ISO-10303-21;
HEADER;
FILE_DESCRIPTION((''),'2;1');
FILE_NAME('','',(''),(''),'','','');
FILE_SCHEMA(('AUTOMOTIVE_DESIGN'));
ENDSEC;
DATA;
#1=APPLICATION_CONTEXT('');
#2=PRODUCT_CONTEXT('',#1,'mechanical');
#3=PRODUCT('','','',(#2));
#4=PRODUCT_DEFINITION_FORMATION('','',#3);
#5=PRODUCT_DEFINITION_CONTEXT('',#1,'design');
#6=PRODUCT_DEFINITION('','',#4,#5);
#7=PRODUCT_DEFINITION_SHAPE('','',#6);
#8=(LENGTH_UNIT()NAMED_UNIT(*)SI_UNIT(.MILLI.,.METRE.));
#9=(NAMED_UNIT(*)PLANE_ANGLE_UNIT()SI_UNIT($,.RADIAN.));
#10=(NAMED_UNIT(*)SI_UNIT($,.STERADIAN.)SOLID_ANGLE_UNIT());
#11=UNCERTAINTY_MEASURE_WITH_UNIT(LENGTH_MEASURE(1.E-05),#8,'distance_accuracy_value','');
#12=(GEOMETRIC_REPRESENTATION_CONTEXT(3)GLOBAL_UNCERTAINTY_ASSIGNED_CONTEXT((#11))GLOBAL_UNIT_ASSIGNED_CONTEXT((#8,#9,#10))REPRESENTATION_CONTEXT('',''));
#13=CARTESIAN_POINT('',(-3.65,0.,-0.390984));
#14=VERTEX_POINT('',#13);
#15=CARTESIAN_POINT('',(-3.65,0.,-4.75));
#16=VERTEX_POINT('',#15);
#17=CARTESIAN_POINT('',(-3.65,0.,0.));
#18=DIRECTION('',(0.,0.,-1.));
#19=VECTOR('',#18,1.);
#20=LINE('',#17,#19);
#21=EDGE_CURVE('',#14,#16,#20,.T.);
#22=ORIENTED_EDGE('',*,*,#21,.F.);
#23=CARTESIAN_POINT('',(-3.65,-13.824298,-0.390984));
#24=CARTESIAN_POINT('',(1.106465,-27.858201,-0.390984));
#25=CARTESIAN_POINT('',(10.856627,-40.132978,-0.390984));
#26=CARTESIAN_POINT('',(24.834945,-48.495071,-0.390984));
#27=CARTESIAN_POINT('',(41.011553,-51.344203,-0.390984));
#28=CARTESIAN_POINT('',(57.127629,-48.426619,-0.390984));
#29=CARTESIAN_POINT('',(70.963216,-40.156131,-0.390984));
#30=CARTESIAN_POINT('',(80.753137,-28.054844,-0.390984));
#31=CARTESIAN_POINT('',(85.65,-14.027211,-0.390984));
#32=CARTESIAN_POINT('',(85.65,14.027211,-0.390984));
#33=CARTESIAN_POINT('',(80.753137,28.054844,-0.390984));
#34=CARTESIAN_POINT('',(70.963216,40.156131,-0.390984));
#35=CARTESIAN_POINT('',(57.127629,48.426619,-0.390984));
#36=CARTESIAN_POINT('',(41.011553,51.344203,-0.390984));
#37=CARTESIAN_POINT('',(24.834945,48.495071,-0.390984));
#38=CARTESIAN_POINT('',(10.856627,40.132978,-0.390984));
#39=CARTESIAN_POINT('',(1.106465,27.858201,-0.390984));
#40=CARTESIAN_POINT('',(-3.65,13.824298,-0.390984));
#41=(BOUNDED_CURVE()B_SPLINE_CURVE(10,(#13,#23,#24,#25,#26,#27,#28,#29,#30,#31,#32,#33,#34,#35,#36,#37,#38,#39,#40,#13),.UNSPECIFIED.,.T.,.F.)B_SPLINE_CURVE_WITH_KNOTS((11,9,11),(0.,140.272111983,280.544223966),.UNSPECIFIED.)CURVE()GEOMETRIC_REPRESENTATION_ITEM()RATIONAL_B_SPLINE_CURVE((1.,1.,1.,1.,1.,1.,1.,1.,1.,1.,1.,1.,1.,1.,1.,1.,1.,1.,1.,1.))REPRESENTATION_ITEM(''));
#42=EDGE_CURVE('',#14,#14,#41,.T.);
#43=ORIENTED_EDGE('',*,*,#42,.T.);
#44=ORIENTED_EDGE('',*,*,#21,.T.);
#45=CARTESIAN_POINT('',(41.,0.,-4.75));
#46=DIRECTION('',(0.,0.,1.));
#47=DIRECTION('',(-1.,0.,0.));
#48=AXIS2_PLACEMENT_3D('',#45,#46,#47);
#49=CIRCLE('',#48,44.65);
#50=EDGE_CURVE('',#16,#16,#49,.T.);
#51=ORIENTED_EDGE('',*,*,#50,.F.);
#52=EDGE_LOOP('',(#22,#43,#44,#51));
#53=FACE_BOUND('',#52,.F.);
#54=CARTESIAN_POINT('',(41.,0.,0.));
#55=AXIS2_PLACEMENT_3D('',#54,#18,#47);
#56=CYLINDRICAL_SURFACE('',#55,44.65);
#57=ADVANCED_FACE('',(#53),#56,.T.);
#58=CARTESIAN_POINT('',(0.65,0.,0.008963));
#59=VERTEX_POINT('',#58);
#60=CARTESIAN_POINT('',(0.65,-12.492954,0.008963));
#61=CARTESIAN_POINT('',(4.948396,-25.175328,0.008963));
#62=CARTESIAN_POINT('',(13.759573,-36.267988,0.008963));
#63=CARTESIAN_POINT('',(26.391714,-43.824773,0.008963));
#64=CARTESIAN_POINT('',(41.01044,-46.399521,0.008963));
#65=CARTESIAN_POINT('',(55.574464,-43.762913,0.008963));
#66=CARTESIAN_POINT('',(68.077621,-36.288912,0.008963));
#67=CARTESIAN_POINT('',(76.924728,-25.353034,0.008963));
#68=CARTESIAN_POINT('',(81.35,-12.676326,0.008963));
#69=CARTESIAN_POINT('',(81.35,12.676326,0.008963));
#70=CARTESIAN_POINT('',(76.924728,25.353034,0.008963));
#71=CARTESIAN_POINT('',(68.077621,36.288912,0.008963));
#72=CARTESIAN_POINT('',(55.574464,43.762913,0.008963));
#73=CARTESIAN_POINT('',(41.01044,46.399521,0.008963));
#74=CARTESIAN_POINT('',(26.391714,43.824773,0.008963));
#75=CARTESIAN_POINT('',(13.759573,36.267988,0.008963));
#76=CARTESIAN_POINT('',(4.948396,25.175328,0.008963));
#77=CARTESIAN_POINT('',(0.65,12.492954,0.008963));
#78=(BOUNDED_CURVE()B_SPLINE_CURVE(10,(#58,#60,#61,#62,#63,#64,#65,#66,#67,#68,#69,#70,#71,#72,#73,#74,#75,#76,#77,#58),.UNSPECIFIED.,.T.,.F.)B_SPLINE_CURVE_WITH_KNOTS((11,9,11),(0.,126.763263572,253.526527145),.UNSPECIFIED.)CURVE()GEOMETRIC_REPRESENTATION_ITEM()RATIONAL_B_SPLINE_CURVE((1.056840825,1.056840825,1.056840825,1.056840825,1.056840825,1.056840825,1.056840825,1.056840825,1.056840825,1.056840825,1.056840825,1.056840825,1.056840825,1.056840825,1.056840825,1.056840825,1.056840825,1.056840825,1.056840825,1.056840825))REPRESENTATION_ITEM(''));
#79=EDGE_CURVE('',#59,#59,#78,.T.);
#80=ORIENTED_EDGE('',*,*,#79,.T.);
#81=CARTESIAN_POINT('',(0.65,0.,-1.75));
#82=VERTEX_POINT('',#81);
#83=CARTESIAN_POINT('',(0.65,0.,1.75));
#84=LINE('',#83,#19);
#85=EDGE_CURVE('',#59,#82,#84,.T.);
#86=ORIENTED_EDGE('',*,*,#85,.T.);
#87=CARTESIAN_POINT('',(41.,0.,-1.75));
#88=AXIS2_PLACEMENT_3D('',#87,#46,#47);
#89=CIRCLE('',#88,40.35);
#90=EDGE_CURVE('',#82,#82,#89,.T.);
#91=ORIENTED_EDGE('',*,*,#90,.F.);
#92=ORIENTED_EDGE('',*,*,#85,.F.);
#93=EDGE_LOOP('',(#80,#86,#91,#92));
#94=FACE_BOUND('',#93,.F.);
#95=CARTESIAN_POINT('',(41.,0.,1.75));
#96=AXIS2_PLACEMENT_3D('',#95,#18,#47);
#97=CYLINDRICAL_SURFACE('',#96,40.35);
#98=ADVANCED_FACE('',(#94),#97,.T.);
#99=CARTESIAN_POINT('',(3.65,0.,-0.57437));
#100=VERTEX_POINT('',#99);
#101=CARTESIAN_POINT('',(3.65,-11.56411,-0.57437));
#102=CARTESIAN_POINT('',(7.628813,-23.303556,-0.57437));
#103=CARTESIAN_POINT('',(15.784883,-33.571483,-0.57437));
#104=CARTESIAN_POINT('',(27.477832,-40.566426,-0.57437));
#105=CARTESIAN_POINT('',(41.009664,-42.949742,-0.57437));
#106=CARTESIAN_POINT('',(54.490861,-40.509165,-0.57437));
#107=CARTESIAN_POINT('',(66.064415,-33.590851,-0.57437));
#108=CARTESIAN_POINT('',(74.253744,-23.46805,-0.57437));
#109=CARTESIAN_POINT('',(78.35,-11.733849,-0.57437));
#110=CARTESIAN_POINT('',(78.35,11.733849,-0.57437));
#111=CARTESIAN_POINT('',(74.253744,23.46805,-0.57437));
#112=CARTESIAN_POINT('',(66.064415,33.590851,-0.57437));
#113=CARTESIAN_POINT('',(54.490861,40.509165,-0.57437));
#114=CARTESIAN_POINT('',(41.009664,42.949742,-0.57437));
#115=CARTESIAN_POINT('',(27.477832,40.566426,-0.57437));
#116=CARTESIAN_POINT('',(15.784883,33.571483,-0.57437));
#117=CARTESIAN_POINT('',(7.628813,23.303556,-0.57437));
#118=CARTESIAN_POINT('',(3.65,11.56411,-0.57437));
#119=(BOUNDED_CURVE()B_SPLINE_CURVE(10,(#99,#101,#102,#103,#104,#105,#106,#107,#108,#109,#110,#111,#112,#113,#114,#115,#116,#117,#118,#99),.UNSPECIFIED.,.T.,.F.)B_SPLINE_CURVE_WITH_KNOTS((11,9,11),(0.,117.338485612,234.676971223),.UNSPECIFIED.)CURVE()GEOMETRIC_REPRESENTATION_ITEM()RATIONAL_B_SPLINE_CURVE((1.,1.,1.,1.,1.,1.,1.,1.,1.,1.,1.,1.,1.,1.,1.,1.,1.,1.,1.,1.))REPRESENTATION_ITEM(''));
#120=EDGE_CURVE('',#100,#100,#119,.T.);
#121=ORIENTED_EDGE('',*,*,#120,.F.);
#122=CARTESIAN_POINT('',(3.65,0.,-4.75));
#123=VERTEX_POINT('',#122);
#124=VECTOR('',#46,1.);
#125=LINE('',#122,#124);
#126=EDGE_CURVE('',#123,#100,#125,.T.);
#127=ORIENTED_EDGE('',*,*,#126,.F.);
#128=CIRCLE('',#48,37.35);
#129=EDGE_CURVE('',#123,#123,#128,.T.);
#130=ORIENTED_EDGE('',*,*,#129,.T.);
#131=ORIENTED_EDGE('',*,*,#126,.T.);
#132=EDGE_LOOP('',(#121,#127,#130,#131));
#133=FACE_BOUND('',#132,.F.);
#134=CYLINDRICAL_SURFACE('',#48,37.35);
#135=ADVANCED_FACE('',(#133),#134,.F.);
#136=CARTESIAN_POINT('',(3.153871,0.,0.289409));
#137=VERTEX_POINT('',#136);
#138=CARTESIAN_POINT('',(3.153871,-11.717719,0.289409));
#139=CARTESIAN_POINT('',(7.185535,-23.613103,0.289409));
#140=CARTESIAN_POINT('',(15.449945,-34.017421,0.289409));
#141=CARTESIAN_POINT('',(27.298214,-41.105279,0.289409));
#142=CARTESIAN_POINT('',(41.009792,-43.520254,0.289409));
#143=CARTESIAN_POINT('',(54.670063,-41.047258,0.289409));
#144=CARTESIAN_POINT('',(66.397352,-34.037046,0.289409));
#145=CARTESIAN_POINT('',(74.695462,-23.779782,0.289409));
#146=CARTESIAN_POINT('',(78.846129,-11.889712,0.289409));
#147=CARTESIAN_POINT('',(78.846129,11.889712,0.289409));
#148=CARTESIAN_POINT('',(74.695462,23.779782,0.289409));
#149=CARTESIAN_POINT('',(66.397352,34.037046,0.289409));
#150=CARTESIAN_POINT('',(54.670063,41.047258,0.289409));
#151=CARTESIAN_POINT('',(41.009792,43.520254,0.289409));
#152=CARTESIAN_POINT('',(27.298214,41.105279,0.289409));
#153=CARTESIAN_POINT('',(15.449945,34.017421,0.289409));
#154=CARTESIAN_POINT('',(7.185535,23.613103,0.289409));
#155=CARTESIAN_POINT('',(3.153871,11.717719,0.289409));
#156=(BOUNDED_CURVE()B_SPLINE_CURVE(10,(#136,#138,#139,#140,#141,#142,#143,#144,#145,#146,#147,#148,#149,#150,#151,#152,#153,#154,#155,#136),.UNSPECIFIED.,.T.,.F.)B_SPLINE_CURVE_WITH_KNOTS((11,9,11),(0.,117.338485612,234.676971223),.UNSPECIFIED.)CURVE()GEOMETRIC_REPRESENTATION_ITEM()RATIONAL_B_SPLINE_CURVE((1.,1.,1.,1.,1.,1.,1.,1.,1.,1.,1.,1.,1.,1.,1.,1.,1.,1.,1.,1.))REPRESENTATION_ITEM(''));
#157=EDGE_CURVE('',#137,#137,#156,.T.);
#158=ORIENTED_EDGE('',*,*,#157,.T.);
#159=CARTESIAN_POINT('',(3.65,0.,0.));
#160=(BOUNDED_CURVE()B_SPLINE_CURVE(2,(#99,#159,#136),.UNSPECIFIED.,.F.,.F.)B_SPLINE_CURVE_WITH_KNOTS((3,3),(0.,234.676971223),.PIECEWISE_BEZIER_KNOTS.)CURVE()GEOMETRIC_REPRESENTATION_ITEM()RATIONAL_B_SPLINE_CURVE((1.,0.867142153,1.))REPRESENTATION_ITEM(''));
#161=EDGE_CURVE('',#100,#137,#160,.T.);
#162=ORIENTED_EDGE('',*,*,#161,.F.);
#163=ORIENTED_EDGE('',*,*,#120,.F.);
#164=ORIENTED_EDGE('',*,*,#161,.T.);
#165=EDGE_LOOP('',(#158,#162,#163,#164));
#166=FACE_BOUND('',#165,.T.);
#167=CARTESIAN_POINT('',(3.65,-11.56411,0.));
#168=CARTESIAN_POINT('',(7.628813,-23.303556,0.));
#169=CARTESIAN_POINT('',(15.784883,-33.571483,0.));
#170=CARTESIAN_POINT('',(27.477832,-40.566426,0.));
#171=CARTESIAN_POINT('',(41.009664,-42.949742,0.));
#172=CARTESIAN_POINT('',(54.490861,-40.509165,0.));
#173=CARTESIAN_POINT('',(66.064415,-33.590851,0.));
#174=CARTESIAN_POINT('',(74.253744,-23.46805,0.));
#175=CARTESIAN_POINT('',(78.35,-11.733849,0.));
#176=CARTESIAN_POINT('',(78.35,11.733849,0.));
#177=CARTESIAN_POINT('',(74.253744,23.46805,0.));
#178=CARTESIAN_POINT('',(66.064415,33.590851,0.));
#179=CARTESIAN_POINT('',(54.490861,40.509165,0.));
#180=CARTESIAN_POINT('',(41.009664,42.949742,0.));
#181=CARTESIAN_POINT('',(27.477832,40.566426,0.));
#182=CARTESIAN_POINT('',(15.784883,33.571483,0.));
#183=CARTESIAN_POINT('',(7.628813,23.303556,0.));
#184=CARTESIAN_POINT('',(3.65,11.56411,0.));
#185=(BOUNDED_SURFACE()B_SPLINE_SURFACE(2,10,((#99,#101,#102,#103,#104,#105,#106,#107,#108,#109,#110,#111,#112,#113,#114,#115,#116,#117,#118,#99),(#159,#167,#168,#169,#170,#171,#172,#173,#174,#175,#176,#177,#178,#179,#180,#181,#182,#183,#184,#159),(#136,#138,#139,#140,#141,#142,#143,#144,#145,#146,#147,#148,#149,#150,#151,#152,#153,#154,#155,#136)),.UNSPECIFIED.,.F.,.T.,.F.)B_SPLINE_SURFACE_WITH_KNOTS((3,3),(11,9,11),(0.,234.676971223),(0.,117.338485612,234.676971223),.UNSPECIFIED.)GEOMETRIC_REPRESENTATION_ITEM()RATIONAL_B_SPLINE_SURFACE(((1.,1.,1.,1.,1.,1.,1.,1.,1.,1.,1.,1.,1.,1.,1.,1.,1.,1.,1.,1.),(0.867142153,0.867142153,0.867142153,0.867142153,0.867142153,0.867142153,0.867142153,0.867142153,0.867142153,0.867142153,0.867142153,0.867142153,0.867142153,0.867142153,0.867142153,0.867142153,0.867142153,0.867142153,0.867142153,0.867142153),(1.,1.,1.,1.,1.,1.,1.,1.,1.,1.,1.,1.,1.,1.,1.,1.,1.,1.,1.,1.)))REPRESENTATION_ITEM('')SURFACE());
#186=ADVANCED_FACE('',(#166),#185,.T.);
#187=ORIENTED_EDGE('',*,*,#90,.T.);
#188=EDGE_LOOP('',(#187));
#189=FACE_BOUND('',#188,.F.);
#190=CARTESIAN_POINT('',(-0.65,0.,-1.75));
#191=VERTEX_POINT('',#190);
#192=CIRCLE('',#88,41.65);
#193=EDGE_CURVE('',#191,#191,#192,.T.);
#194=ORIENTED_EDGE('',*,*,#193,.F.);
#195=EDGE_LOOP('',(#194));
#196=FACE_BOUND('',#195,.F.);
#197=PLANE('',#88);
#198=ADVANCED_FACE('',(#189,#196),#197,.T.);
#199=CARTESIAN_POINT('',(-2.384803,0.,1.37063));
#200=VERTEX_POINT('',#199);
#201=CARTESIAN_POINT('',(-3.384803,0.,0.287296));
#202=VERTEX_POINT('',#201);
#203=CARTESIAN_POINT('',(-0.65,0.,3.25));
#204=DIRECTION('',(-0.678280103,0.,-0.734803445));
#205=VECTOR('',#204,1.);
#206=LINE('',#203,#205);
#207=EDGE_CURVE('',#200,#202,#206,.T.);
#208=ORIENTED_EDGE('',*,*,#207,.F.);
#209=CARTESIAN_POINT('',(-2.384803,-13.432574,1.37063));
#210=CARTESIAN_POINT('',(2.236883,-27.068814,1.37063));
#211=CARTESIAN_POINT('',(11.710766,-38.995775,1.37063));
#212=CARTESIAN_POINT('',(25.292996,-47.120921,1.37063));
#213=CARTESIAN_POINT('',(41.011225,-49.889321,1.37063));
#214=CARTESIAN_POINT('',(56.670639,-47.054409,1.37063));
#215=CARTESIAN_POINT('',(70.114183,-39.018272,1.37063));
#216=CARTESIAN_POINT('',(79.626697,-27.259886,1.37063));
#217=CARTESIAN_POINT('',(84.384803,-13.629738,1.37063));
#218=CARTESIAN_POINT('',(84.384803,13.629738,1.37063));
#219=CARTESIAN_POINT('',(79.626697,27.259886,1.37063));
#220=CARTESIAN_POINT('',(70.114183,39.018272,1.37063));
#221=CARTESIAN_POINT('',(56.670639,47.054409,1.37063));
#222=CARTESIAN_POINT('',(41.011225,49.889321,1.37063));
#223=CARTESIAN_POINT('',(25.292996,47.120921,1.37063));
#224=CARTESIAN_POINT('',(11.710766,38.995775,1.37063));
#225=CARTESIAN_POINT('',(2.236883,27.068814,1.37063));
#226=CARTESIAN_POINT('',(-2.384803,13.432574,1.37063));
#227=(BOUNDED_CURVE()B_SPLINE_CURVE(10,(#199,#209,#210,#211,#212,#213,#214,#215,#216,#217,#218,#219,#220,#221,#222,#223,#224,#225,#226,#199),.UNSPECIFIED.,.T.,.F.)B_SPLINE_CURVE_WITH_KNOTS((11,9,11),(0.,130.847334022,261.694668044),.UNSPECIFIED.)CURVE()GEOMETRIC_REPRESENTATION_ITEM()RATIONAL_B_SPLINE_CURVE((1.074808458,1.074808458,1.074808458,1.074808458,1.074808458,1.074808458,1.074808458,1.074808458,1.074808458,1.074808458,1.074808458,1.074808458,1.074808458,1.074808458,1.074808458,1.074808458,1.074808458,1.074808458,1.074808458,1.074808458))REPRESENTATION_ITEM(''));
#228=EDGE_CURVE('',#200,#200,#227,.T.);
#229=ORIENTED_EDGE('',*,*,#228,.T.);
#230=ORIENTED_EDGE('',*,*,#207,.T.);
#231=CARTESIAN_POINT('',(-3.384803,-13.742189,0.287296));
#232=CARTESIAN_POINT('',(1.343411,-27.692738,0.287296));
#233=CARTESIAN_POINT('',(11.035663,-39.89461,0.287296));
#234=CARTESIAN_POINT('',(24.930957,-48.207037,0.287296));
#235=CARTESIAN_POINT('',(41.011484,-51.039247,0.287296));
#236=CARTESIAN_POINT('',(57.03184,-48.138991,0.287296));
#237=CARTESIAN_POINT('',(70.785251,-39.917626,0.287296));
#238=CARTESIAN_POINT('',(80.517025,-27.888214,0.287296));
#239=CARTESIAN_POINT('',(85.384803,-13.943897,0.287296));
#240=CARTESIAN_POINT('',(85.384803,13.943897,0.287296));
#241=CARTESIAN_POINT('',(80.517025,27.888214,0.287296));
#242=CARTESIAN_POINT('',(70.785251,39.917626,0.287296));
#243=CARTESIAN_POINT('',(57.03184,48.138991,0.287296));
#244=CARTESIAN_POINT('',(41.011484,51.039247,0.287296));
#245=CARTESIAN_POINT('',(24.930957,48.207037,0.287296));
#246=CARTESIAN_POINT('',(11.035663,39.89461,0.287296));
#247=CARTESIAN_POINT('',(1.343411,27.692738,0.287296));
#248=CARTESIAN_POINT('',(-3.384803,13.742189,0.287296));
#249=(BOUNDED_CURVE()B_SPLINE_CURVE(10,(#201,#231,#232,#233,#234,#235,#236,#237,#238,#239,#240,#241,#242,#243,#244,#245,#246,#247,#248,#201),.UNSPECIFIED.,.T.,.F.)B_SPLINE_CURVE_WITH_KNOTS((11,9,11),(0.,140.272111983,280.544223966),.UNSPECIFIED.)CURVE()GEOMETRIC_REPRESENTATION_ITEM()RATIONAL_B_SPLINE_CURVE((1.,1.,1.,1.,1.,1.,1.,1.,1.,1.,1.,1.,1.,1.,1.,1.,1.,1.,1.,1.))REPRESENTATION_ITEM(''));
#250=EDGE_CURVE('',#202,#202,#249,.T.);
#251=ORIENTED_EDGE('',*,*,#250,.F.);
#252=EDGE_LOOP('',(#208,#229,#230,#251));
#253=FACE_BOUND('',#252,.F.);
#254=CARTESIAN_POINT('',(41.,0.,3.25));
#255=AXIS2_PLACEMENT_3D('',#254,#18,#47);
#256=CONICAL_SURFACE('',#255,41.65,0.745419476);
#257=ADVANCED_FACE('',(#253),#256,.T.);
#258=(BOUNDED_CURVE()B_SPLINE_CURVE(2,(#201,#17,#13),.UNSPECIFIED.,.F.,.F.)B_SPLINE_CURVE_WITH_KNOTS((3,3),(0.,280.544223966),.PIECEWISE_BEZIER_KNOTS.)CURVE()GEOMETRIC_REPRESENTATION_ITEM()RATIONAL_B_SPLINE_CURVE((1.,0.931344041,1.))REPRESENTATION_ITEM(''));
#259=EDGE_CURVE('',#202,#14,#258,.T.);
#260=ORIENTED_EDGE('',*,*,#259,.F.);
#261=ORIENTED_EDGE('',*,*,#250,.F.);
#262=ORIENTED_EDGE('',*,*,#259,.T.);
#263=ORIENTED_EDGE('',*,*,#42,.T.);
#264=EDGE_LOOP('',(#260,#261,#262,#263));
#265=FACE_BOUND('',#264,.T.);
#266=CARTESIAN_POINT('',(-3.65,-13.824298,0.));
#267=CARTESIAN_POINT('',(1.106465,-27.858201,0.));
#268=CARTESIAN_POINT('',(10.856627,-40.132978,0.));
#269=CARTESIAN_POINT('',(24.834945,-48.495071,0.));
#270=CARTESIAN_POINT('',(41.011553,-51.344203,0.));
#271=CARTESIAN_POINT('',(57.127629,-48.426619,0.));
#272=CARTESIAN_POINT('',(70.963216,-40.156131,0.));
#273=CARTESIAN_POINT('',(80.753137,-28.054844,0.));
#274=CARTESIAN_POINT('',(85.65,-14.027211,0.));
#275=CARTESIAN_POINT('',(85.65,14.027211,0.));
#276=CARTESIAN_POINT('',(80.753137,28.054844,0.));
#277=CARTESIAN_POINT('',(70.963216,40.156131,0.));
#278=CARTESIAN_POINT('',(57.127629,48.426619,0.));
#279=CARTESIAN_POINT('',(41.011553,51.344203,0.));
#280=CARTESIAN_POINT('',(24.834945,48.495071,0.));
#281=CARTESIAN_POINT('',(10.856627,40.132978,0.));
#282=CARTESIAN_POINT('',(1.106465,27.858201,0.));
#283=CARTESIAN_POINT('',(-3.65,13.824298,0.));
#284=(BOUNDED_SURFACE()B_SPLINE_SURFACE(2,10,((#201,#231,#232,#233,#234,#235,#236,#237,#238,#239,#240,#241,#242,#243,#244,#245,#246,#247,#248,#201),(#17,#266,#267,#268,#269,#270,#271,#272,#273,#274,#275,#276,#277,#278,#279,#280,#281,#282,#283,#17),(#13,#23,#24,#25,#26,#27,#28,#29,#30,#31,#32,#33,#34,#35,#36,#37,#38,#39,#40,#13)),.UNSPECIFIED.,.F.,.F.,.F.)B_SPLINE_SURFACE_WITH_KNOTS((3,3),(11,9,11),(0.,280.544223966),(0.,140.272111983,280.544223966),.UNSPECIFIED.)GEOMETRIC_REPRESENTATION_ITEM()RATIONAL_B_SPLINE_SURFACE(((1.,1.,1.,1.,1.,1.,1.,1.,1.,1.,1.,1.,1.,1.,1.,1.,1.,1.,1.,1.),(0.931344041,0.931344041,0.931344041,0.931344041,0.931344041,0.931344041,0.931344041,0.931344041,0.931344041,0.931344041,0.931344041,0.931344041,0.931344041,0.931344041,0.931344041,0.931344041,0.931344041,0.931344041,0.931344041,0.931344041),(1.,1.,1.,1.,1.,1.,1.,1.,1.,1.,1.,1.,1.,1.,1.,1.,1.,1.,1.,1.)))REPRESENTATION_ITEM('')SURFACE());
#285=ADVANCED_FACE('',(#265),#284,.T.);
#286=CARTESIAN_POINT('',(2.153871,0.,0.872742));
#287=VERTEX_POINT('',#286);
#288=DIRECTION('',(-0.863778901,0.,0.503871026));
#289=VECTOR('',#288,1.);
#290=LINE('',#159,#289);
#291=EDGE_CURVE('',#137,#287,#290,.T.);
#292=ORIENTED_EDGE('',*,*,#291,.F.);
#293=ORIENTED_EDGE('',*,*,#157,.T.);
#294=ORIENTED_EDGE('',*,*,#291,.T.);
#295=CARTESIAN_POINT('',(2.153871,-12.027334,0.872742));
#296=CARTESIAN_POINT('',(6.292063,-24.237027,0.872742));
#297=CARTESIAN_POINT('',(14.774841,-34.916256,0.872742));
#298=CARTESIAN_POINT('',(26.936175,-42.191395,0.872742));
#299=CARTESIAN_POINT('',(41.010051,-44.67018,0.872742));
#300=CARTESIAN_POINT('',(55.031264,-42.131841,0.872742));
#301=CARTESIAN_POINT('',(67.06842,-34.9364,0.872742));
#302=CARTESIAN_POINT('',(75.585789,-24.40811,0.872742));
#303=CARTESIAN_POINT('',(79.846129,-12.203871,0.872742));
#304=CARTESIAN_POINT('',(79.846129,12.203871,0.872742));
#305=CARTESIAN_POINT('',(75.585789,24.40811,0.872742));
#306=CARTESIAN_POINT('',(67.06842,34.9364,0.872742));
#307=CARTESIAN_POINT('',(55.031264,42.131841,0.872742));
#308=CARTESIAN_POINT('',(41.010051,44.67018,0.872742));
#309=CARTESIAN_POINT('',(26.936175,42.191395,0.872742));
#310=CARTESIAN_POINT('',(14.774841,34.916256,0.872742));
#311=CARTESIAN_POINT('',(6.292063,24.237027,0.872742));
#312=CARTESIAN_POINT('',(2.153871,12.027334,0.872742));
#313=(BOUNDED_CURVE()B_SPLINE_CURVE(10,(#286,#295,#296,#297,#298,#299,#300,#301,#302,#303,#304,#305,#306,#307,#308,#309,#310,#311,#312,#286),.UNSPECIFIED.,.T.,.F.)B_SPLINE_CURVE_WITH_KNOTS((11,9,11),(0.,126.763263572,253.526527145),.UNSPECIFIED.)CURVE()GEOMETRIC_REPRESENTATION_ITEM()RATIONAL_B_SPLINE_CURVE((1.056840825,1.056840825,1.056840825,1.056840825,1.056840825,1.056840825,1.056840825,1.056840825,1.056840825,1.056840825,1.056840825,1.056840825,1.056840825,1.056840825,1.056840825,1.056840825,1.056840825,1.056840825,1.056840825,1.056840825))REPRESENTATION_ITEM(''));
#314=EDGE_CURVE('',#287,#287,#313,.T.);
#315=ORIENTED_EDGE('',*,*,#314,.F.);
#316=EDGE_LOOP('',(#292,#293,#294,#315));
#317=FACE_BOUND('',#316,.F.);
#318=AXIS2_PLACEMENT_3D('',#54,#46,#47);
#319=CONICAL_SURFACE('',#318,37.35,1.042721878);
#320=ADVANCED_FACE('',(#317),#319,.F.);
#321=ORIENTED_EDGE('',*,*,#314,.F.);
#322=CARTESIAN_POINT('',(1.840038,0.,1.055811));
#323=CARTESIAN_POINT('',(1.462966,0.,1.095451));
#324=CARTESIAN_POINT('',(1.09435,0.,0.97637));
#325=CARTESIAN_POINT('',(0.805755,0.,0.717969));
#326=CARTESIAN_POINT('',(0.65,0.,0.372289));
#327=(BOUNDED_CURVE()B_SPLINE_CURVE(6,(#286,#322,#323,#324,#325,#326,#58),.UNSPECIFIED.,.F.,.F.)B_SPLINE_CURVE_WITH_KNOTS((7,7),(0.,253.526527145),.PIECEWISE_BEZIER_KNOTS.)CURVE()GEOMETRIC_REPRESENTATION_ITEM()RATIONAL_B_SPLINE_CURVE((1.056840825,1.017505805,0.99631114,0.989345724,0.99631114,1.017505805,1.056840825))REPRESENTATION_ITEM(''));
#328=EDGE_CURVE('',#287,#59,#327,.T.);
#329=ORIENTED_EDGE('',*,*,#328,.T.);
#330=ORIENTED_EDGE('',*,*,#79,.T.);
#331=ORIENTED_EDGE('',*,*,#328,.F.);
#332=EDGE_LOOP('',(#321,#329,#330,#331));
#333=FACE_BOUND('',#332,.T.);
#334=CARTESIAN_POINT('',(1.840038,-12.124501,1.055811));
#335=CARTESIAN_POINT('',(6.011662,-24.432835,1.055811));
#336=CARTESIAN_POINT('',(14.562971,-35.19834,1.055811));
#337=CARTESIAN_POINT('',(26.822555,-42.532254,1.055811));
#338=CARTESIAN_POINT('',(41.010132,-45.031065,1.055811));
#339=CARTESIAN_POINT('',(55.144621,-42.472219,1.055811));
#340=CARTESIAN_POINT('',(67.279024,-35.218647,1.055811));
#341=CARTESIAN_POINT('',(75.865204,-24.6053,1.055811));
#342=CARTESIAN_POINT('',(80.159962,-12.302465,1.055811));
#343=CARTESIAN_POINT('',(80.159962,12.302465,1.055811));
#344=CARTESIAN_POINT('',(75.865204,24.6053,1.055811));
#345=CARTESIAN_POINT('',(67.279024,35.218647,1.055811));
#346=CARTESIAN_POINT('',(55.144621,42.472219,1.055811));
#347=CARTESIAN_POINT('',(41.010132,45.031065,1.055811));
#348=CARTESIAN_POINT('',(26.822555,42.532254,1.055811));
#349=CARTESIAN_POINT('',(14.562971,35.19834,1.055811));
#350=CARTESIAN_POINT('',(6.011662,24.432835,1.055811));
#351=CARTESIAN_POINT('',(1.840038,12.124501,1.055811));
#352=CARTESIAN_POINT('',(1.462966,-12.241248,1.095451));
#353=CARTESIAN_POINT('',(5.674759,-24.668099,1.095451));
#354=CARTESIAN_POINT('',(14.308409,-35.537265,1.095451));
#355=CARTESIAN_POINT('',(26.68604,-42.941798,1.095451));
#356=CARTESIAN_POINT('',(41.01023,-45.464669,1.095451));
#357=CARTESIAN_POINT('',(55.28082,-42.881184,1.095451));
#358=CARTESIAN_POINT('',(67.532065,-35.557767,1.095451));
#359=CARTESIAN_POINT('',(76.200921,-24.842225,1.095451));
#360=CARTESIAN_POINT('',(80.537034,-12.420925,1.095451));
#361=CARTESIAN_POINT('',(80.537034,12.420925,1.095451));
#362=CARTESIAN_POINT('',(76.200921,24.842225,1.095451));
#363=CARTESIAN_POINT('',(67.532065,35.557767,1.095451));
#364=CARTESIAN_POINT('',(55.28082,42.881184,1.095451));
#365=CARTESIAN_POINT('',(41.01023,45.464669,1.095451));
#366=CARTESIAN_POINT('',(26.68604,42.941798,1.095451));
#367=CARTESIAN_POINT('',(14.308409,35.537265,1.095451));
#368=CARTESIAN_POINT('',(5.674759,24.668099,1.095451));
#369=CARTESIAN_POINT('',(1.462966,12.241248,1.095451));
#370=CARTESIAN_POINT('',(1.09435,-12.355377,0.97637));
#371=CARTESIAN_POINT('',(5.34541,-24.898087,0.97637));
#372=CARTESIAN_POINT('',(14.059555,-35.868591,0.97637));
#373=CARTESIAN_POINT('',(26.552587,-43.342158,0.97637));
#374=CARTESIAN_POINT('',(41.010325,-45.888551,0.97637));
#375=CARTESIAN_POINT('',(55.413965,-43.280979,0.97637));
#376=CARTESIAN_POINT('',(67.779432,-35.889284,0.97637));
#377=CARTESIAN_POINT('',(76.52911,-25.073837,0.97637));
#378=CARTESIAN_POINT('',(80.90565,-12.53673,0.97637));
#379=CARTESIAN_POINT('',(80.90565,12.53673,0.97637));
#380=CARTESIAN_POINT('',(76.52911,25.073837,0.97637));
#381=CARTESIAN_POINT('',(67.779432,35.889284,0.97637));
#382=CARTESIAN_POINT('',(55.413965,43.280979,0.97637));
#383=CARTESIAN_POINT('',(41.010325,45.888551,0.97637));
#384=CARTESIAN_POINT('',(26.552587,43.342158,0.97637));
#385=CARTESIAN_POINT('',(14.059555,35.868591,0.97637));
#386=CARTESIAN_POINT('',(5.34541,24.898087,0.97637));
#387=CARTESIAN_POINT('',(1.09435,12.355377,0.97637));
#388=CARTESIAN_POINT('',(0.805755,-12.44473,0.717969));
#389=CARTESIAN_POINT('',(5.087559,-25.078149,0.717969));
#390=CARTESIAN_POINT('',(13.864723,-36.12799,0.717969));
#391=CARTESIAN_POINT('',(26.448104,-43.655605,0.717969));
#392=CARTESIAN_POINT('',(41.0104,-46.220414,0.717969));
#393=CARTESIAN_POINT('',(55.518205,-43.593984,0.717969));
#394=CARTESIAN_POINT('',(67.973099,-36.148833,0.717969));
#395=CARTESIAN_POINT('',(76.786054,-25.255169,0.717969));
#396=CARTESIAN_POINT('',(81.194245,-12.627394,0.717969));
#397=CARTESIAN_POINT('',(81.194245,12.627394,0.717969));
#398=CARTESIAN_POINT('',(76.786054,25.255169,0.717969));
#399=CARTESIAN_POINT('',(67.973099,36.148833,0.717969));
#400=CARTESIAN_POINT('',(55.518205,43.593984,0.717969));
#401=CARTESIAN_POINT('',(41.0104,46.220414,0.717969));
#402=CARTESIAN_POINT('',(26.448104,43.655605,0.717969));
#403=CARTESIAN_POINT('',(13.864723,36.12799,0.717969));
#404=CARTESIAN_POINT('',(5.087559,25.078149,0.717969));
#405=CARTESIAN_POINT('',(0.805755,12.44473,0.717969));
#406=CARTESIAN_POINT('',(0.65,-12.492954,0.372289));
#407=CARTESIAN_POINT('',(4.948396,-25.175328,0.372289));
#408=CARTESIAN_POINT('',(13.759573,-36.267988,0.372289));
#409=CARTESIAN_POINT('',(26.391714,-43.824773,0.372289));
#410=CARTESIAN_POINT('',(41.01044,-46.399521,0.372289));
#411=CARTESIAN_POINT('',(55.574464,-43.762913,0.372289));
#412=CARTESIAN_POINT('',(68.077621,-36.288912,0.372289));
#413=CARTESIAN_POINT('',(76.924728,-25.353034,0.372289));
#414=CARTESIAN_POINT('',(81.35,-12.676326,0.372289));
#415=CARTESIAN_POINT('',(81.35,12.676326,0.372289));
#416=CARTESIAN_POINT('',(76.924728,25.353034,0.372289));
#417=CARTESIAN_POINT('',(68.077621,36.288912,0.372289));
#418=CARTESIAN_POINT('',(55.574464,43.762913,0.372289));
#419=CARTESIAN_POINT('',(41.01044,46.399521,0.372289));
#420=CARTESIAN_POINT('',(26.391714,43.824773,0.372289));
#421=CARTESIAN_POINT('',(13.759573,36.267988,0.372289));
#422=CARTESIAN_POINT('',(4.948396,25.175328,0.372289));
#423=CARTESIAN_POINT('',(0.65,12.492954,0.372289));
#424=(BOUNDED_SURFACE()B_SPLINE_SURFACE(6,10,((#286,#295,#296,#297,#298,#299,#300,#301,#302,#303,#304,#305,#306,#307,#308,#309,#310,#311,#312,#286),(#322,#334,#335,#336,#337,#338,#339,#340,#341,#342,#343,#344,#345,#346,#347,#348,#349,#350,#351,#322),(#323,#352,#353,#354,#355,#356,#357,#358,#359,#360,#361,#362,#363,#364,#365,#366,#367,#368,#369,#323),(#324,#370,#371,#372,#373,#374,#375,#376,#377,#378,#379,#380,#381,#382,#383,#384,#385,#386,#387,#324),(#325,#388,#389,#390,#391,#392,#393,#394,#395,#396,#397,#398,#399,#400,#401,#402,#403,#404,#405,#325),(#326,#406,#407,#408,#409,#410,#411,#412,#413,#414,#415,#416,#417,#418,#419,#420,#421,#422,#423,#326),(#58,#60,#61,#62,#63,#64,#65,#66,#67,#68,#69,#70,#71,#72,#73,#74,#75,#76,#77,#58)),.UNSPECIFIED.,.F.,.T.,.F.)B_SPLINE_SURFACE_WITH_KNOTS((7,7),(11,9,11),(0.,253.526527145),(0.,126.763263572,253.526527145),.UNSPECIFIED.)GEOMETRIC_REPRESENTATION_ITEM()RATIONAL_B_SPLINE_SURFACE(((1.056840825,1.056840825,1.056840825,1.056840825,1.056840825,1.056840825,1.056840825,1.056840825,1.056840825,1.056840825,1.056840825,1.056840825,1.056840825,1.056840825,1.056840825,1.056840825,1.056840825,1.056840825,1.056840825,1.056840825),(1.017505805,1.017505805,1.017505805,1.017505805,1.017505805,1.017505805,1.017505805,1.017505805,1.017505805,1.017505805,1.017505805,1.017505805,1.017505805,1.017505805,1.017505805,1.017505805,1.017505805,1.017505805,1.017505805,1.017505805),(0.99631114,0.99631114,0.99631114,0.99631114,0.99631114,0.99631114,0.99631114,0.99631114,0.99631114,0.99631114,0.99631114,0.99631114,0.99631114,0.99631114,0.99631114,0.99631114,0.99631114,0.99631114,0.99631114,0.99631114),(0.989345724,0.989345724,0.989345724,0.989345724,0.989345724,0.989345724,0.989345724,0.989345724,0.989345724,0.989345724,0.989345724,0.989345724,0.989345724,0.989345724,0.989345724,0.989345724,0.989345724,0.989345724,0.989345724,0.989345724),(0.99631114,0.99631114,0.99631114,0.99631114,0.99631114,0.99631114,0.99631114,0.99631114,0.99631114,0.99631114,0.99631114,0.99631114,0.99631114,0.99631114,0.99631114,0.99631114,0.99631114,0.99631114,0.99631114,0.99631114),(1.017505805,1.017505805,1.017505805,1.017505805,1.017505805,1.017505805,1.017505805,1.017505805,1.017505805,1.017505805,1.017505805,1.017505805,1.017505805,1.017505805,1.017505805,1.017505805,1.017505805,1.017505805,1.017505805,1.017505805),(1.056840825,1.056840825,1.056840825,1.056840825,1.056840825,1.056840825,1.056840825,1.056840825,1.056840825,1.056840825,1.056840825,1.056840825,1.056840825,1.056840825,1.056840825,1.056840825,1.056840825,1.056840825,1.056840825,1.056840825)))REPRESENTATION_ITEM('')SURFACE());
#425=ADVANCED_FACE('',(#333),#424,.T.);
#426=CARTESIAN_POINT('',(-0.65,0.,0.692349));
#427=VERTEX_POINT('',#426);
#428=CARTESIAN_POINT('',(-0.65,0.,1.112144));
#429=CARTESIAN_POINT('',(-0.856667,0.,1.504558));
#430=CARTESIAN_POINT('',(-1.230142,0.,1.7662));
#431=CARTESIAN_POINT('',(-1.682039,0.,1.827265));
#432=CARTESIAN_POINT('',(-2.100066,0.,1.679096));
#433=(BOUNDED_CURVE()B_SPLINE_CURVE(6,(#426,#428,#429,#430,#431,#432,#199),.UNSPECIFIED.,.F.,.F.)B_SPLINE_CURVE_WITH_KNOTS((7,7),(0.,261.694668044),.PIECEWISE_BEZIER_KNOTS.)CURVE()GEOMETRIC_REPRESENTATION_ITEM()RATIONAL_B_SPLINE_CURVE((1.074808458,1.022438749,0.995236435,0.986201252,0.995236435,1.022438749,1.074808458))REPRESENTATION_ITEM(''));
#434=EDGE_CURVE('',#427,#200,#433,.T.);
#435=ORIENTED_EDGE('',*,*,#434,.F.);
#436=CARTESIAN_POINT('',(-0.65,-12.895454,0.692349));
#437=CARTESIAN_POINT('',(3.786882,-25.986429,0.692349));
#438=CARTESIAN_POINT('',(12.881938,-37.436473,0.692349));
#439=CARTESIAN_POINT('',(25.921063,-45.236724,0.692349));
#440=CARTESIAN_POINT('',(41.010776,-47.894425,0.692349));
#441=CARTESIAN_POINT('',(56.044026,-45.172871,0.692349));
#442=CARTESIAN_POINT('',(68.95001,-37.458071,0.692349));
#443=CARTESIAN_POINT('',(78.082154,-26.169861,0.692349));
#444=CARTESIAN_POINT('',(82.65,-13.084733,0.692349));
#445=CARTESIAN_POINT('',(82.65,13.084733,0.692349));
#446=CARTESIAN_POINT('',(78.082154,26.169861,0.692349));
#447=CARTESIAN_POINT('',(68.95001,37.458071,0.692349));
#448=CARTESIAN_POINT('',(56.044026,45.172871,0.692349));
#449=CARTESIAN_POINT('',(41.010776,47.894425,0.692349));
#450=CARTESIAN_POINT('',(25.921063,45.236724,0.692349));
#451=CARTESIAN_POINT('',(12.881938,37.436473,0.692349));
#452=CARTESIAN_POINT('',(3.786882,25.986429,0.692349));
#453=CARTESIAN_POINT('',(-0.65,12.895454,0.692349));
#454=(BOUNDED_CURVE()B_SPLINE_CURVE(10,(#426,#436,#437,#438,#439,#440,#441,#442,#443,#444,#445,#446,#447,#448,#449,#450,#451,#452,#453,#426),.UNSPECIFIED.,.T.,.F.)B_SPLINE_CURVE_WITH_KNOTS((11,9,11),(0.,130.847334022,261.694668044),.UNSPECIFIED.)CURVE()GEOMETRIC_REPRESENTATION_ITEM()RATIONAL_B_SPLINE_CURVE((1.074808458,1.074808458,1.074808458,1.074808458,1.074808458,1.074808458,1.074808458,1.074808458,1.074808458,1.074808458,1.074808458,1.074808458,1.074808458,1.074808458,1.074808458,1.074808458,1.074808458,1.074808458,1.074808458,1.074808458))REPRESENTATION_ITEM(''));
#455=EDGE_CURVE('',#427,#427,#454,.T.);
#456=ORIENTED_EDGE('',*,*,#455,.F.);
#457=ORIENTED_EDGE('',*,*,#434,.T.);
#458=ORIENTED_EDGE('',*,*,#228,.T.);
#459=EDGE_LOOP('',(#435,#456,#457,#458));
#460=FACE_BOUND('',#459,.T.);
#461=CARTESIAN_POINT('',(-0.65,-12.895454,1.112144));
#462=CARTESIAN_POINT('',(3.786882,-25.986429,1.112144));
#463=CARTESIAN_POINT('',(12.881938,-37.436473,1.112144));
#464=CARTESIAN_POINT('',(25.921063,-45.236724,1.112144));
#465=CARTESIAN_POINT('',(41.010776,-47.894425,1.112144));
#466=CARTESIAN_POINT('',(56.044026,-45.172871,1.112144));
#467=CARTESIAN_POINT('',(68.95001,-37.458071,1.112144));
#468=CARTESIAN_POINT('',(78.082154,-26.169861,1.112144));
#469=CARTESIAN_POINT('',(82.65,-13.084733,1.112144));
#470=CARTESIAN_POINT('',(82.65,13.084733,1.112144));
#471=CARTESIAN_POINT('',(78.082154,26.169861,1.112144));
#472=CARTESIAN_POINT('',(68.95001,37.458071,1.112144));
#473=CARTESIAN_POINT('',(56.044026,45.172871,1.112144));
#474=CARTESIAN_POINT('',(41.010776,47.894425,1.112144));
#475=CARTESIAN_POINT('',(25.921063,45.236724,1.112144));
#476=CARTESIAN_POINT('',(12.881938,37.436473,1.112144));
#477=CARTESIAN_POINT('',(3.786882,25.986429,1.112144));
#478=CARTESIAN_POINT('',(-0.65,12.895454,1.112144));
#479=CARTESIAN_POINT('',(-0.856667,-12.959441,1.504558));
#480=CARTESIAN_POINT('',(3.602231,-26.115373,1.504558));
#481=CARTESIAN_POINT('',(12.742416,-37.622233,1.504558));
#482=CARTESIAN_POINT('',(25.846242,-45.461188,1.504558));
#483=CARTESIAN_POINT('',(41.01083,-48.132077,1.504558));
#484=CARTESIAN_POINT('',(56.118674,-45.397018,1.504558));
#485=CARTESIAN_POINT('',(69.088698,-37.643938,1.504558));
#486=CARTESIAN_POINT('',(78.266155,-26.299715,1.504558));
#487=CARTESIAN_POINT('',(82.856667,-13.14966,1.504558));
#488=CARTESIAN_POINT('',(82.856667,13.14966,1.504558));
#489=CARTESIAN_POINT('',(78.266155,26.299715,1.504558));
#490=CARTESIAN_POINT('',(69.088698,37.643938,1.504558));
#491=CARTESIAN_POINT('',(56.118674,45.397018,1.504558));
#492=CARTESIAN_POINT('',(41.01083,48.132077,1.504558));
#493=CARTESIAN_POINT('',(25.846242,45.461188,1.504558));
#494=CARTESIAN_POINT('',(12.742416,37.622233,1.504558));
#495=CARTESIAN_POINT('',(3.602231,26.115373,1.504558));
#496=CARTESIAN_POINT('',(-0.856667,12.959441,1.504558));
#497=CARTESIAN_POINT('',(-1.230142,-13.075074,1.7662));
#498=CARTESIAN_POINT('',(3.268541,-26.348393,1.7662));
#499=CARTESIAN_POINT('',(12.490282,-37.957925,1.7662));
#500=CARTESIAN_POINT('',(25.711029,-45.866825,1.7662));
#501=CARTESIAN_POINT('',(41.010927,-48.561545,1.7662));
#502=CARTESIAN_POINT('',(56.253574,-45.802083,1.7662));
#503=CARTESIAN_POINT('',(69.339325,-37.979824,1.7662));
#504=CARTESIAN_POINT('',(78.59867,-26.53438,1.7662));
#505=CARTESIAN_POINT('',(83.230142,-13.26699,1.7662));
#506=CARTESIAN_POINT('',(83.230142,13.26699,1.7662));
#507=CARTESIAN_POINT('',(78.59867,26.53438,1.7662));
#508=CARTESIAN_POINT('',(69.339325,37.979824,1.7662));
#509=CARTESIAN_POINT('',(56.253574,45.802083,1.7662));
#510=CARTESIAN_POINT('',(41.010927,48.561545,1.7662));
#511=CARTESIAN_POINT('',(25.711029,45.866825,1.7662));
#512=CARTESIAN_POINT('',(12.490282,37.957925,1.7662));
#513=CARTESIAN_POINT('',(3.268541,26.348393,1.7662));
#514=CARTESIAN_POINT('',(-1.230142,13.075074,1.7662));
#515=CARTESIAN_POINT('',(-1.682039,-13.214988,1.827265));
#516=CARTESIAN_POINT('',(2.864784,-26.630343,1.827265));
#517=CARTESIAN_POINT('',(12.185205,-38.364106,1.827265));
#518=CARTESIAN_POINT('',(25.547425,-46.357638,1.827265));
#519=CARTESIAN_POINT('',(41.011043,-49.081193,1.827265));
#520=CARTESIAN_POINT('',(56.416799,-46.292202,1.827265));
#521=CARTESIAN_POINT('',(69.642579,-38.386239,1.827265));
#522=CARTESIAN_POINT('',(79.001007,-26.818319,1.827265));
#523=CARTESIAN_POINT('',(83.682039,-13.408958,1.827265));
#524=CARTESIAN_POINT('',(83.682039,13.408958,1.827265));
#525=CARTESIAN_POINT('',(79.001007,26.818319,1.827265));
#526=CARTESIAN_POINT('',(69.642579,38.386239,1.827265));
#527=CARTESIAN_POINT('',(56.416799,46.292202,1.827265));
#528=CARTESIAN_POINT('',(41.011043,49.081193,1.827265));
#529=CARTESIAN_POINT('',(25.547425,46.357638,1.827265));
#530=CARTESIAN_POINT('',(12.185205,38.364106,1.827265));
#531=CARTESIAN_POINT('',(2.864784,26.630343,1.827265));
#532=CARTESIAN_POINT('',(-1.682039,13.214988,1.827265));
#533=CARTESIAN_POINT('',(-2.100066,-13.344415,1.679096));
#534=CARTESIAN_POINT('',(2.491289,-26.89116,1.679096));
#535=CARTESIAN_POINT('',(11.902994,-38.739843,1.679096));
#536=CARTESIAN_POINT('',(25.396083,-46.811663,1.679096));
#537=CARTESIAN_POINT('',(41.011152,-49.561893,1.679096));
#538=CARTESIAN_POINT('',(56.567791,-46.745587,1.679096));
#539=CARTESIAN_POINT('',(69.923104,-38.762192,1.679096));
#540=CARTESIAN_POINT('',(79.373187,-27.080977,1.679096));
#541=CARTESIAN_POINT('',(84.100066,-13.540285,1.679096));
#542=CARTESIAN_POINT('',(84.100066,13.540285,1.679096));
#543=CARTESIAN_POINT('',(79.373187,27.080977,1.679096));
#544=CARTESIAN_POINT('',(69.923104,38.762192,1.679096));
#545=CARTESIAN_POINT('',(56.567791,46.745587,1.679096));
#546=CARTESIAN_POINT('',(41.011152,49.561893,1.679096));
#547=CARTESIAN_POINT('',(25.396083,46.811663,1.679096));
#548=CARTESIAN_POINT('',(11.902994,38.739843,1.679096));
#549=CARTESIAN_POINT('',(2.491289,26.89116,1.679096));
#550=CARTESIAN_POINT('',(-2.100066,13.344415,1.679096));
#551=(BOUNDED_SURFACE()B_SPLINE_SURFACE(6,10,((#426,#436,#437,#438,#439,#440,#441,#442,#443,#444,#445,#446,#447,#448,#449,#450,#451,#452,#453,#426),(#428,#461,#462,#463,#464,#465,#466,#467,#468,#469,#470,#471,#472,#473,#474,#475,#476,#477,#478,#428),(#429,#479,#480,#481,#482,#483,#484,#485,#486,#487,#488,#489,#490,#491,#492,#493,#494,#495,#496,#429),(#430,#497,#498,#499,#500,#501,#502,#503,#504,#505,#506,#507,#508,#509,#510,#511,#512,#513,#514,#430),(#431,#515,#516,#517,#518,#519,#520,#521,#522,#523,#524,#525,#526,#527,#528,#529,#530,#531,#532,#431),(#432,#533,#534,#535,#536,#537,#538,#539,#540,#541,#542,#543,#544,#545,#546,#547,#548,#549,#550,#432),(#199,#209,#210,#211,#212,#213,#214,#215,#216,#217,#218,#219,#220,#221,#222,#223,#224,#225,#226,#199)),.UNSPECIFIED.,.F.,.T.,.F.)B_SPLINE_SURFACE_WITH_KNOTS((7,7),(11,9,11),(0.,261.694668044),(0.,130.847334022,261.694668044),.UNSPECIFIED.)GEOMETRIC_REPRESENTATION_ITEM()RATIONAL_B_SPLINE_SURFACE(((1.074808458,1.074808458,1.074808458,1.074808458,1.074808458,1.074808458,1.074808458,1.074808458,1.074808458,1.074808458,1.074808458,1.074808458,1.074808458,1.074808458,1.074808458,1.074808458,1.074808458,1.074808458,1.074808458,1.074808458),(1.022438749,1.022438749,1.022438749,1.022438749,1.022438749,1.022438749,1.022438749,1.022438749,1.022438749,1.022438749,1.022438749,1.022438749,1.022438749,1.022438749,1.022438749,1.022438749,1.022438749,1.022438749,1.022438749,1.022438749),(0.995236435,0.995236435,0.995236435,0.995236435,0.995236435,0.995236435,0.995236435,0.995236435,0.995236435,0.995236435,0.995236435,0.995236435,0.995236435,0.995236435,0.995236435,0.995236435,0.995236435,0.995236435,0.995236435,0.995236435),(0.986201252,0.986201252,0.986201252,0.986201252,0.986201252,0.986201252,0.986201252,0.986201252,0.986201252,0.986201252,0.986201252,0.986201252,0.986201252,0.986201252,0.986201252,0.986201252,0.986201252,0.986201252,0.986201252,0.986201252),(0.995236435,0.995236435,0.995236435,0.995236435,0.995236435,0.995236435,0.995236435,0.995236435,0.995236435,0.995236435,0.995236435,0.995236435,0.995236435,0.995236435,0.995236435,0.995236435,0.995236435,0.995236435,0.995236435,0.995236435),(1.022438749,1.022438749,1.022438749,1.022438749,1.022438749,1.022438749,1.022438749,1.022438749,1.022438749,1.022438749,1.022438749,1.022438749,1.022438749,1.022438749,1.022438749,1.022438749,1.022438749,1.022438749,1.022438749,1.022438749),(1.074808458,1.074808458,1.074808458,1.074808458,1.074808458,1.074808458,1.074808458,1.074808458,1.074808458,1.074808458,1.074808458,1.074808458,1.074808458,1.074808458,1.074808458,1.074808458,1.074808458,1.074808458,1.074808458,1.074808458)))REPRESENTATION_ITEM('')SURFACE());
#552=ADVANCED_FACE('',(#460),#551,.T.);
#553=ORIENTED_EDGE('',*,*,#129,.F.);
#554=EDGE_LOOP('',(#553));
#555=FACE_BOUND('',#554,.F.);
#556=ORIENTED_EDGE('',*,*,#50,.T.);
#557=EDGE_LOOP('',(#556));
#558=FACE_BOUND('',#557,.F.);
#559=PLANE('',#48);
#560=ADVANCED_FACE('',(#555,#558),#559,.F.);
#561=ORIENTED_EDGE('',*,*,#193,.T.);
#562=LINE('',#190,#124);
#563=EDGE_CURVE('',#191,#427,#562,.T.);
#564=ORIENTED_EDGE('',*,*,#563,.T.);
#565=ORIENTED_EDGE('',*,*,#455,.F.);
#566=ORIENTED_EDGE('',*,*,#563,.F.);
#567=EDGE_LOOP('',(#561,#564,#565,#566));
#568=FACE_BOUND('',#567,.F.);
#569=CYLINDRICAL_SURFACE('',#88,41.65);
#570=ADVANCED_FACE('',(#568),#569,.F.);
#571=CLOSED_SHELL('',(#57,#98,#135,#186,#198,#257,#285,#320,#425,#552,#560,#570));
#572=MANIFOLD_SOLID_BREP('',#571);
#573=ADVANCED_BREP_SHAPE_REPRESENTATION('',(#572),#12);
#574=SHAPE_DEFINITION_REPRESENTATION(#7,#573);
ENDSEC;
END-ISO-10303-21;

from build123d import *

# Parameters (mm, degrees)
FILLET_R = 1


with BuildPart() as part:
    # Sketch → Revolve (revolve)
    with BuildSketch(Plane.XZ):
        Polygon((-3.65, -4.75), (3.65, -4.75), (3.65, 0), (0.65, 1.75), (0.65, -1.75), (-0.65, -1.75), (-0.65, 3.25), (-3.65, 0), align=None)
    revolve(axis=Axis((41, 0, 0), (0, 0, 1)))

    # Fillet
    fillet_edges = [part.edges().sort_by_distance(p)[0] for p in [
        (78.35, 0, 0),
        (81.35, 0, 1.75),
        (82.65, 0, 3.25),
        (85.65, 0, 0),
    ]]
    fillet(fillet_edges, radius=FILLET_R)


solid = part.part
